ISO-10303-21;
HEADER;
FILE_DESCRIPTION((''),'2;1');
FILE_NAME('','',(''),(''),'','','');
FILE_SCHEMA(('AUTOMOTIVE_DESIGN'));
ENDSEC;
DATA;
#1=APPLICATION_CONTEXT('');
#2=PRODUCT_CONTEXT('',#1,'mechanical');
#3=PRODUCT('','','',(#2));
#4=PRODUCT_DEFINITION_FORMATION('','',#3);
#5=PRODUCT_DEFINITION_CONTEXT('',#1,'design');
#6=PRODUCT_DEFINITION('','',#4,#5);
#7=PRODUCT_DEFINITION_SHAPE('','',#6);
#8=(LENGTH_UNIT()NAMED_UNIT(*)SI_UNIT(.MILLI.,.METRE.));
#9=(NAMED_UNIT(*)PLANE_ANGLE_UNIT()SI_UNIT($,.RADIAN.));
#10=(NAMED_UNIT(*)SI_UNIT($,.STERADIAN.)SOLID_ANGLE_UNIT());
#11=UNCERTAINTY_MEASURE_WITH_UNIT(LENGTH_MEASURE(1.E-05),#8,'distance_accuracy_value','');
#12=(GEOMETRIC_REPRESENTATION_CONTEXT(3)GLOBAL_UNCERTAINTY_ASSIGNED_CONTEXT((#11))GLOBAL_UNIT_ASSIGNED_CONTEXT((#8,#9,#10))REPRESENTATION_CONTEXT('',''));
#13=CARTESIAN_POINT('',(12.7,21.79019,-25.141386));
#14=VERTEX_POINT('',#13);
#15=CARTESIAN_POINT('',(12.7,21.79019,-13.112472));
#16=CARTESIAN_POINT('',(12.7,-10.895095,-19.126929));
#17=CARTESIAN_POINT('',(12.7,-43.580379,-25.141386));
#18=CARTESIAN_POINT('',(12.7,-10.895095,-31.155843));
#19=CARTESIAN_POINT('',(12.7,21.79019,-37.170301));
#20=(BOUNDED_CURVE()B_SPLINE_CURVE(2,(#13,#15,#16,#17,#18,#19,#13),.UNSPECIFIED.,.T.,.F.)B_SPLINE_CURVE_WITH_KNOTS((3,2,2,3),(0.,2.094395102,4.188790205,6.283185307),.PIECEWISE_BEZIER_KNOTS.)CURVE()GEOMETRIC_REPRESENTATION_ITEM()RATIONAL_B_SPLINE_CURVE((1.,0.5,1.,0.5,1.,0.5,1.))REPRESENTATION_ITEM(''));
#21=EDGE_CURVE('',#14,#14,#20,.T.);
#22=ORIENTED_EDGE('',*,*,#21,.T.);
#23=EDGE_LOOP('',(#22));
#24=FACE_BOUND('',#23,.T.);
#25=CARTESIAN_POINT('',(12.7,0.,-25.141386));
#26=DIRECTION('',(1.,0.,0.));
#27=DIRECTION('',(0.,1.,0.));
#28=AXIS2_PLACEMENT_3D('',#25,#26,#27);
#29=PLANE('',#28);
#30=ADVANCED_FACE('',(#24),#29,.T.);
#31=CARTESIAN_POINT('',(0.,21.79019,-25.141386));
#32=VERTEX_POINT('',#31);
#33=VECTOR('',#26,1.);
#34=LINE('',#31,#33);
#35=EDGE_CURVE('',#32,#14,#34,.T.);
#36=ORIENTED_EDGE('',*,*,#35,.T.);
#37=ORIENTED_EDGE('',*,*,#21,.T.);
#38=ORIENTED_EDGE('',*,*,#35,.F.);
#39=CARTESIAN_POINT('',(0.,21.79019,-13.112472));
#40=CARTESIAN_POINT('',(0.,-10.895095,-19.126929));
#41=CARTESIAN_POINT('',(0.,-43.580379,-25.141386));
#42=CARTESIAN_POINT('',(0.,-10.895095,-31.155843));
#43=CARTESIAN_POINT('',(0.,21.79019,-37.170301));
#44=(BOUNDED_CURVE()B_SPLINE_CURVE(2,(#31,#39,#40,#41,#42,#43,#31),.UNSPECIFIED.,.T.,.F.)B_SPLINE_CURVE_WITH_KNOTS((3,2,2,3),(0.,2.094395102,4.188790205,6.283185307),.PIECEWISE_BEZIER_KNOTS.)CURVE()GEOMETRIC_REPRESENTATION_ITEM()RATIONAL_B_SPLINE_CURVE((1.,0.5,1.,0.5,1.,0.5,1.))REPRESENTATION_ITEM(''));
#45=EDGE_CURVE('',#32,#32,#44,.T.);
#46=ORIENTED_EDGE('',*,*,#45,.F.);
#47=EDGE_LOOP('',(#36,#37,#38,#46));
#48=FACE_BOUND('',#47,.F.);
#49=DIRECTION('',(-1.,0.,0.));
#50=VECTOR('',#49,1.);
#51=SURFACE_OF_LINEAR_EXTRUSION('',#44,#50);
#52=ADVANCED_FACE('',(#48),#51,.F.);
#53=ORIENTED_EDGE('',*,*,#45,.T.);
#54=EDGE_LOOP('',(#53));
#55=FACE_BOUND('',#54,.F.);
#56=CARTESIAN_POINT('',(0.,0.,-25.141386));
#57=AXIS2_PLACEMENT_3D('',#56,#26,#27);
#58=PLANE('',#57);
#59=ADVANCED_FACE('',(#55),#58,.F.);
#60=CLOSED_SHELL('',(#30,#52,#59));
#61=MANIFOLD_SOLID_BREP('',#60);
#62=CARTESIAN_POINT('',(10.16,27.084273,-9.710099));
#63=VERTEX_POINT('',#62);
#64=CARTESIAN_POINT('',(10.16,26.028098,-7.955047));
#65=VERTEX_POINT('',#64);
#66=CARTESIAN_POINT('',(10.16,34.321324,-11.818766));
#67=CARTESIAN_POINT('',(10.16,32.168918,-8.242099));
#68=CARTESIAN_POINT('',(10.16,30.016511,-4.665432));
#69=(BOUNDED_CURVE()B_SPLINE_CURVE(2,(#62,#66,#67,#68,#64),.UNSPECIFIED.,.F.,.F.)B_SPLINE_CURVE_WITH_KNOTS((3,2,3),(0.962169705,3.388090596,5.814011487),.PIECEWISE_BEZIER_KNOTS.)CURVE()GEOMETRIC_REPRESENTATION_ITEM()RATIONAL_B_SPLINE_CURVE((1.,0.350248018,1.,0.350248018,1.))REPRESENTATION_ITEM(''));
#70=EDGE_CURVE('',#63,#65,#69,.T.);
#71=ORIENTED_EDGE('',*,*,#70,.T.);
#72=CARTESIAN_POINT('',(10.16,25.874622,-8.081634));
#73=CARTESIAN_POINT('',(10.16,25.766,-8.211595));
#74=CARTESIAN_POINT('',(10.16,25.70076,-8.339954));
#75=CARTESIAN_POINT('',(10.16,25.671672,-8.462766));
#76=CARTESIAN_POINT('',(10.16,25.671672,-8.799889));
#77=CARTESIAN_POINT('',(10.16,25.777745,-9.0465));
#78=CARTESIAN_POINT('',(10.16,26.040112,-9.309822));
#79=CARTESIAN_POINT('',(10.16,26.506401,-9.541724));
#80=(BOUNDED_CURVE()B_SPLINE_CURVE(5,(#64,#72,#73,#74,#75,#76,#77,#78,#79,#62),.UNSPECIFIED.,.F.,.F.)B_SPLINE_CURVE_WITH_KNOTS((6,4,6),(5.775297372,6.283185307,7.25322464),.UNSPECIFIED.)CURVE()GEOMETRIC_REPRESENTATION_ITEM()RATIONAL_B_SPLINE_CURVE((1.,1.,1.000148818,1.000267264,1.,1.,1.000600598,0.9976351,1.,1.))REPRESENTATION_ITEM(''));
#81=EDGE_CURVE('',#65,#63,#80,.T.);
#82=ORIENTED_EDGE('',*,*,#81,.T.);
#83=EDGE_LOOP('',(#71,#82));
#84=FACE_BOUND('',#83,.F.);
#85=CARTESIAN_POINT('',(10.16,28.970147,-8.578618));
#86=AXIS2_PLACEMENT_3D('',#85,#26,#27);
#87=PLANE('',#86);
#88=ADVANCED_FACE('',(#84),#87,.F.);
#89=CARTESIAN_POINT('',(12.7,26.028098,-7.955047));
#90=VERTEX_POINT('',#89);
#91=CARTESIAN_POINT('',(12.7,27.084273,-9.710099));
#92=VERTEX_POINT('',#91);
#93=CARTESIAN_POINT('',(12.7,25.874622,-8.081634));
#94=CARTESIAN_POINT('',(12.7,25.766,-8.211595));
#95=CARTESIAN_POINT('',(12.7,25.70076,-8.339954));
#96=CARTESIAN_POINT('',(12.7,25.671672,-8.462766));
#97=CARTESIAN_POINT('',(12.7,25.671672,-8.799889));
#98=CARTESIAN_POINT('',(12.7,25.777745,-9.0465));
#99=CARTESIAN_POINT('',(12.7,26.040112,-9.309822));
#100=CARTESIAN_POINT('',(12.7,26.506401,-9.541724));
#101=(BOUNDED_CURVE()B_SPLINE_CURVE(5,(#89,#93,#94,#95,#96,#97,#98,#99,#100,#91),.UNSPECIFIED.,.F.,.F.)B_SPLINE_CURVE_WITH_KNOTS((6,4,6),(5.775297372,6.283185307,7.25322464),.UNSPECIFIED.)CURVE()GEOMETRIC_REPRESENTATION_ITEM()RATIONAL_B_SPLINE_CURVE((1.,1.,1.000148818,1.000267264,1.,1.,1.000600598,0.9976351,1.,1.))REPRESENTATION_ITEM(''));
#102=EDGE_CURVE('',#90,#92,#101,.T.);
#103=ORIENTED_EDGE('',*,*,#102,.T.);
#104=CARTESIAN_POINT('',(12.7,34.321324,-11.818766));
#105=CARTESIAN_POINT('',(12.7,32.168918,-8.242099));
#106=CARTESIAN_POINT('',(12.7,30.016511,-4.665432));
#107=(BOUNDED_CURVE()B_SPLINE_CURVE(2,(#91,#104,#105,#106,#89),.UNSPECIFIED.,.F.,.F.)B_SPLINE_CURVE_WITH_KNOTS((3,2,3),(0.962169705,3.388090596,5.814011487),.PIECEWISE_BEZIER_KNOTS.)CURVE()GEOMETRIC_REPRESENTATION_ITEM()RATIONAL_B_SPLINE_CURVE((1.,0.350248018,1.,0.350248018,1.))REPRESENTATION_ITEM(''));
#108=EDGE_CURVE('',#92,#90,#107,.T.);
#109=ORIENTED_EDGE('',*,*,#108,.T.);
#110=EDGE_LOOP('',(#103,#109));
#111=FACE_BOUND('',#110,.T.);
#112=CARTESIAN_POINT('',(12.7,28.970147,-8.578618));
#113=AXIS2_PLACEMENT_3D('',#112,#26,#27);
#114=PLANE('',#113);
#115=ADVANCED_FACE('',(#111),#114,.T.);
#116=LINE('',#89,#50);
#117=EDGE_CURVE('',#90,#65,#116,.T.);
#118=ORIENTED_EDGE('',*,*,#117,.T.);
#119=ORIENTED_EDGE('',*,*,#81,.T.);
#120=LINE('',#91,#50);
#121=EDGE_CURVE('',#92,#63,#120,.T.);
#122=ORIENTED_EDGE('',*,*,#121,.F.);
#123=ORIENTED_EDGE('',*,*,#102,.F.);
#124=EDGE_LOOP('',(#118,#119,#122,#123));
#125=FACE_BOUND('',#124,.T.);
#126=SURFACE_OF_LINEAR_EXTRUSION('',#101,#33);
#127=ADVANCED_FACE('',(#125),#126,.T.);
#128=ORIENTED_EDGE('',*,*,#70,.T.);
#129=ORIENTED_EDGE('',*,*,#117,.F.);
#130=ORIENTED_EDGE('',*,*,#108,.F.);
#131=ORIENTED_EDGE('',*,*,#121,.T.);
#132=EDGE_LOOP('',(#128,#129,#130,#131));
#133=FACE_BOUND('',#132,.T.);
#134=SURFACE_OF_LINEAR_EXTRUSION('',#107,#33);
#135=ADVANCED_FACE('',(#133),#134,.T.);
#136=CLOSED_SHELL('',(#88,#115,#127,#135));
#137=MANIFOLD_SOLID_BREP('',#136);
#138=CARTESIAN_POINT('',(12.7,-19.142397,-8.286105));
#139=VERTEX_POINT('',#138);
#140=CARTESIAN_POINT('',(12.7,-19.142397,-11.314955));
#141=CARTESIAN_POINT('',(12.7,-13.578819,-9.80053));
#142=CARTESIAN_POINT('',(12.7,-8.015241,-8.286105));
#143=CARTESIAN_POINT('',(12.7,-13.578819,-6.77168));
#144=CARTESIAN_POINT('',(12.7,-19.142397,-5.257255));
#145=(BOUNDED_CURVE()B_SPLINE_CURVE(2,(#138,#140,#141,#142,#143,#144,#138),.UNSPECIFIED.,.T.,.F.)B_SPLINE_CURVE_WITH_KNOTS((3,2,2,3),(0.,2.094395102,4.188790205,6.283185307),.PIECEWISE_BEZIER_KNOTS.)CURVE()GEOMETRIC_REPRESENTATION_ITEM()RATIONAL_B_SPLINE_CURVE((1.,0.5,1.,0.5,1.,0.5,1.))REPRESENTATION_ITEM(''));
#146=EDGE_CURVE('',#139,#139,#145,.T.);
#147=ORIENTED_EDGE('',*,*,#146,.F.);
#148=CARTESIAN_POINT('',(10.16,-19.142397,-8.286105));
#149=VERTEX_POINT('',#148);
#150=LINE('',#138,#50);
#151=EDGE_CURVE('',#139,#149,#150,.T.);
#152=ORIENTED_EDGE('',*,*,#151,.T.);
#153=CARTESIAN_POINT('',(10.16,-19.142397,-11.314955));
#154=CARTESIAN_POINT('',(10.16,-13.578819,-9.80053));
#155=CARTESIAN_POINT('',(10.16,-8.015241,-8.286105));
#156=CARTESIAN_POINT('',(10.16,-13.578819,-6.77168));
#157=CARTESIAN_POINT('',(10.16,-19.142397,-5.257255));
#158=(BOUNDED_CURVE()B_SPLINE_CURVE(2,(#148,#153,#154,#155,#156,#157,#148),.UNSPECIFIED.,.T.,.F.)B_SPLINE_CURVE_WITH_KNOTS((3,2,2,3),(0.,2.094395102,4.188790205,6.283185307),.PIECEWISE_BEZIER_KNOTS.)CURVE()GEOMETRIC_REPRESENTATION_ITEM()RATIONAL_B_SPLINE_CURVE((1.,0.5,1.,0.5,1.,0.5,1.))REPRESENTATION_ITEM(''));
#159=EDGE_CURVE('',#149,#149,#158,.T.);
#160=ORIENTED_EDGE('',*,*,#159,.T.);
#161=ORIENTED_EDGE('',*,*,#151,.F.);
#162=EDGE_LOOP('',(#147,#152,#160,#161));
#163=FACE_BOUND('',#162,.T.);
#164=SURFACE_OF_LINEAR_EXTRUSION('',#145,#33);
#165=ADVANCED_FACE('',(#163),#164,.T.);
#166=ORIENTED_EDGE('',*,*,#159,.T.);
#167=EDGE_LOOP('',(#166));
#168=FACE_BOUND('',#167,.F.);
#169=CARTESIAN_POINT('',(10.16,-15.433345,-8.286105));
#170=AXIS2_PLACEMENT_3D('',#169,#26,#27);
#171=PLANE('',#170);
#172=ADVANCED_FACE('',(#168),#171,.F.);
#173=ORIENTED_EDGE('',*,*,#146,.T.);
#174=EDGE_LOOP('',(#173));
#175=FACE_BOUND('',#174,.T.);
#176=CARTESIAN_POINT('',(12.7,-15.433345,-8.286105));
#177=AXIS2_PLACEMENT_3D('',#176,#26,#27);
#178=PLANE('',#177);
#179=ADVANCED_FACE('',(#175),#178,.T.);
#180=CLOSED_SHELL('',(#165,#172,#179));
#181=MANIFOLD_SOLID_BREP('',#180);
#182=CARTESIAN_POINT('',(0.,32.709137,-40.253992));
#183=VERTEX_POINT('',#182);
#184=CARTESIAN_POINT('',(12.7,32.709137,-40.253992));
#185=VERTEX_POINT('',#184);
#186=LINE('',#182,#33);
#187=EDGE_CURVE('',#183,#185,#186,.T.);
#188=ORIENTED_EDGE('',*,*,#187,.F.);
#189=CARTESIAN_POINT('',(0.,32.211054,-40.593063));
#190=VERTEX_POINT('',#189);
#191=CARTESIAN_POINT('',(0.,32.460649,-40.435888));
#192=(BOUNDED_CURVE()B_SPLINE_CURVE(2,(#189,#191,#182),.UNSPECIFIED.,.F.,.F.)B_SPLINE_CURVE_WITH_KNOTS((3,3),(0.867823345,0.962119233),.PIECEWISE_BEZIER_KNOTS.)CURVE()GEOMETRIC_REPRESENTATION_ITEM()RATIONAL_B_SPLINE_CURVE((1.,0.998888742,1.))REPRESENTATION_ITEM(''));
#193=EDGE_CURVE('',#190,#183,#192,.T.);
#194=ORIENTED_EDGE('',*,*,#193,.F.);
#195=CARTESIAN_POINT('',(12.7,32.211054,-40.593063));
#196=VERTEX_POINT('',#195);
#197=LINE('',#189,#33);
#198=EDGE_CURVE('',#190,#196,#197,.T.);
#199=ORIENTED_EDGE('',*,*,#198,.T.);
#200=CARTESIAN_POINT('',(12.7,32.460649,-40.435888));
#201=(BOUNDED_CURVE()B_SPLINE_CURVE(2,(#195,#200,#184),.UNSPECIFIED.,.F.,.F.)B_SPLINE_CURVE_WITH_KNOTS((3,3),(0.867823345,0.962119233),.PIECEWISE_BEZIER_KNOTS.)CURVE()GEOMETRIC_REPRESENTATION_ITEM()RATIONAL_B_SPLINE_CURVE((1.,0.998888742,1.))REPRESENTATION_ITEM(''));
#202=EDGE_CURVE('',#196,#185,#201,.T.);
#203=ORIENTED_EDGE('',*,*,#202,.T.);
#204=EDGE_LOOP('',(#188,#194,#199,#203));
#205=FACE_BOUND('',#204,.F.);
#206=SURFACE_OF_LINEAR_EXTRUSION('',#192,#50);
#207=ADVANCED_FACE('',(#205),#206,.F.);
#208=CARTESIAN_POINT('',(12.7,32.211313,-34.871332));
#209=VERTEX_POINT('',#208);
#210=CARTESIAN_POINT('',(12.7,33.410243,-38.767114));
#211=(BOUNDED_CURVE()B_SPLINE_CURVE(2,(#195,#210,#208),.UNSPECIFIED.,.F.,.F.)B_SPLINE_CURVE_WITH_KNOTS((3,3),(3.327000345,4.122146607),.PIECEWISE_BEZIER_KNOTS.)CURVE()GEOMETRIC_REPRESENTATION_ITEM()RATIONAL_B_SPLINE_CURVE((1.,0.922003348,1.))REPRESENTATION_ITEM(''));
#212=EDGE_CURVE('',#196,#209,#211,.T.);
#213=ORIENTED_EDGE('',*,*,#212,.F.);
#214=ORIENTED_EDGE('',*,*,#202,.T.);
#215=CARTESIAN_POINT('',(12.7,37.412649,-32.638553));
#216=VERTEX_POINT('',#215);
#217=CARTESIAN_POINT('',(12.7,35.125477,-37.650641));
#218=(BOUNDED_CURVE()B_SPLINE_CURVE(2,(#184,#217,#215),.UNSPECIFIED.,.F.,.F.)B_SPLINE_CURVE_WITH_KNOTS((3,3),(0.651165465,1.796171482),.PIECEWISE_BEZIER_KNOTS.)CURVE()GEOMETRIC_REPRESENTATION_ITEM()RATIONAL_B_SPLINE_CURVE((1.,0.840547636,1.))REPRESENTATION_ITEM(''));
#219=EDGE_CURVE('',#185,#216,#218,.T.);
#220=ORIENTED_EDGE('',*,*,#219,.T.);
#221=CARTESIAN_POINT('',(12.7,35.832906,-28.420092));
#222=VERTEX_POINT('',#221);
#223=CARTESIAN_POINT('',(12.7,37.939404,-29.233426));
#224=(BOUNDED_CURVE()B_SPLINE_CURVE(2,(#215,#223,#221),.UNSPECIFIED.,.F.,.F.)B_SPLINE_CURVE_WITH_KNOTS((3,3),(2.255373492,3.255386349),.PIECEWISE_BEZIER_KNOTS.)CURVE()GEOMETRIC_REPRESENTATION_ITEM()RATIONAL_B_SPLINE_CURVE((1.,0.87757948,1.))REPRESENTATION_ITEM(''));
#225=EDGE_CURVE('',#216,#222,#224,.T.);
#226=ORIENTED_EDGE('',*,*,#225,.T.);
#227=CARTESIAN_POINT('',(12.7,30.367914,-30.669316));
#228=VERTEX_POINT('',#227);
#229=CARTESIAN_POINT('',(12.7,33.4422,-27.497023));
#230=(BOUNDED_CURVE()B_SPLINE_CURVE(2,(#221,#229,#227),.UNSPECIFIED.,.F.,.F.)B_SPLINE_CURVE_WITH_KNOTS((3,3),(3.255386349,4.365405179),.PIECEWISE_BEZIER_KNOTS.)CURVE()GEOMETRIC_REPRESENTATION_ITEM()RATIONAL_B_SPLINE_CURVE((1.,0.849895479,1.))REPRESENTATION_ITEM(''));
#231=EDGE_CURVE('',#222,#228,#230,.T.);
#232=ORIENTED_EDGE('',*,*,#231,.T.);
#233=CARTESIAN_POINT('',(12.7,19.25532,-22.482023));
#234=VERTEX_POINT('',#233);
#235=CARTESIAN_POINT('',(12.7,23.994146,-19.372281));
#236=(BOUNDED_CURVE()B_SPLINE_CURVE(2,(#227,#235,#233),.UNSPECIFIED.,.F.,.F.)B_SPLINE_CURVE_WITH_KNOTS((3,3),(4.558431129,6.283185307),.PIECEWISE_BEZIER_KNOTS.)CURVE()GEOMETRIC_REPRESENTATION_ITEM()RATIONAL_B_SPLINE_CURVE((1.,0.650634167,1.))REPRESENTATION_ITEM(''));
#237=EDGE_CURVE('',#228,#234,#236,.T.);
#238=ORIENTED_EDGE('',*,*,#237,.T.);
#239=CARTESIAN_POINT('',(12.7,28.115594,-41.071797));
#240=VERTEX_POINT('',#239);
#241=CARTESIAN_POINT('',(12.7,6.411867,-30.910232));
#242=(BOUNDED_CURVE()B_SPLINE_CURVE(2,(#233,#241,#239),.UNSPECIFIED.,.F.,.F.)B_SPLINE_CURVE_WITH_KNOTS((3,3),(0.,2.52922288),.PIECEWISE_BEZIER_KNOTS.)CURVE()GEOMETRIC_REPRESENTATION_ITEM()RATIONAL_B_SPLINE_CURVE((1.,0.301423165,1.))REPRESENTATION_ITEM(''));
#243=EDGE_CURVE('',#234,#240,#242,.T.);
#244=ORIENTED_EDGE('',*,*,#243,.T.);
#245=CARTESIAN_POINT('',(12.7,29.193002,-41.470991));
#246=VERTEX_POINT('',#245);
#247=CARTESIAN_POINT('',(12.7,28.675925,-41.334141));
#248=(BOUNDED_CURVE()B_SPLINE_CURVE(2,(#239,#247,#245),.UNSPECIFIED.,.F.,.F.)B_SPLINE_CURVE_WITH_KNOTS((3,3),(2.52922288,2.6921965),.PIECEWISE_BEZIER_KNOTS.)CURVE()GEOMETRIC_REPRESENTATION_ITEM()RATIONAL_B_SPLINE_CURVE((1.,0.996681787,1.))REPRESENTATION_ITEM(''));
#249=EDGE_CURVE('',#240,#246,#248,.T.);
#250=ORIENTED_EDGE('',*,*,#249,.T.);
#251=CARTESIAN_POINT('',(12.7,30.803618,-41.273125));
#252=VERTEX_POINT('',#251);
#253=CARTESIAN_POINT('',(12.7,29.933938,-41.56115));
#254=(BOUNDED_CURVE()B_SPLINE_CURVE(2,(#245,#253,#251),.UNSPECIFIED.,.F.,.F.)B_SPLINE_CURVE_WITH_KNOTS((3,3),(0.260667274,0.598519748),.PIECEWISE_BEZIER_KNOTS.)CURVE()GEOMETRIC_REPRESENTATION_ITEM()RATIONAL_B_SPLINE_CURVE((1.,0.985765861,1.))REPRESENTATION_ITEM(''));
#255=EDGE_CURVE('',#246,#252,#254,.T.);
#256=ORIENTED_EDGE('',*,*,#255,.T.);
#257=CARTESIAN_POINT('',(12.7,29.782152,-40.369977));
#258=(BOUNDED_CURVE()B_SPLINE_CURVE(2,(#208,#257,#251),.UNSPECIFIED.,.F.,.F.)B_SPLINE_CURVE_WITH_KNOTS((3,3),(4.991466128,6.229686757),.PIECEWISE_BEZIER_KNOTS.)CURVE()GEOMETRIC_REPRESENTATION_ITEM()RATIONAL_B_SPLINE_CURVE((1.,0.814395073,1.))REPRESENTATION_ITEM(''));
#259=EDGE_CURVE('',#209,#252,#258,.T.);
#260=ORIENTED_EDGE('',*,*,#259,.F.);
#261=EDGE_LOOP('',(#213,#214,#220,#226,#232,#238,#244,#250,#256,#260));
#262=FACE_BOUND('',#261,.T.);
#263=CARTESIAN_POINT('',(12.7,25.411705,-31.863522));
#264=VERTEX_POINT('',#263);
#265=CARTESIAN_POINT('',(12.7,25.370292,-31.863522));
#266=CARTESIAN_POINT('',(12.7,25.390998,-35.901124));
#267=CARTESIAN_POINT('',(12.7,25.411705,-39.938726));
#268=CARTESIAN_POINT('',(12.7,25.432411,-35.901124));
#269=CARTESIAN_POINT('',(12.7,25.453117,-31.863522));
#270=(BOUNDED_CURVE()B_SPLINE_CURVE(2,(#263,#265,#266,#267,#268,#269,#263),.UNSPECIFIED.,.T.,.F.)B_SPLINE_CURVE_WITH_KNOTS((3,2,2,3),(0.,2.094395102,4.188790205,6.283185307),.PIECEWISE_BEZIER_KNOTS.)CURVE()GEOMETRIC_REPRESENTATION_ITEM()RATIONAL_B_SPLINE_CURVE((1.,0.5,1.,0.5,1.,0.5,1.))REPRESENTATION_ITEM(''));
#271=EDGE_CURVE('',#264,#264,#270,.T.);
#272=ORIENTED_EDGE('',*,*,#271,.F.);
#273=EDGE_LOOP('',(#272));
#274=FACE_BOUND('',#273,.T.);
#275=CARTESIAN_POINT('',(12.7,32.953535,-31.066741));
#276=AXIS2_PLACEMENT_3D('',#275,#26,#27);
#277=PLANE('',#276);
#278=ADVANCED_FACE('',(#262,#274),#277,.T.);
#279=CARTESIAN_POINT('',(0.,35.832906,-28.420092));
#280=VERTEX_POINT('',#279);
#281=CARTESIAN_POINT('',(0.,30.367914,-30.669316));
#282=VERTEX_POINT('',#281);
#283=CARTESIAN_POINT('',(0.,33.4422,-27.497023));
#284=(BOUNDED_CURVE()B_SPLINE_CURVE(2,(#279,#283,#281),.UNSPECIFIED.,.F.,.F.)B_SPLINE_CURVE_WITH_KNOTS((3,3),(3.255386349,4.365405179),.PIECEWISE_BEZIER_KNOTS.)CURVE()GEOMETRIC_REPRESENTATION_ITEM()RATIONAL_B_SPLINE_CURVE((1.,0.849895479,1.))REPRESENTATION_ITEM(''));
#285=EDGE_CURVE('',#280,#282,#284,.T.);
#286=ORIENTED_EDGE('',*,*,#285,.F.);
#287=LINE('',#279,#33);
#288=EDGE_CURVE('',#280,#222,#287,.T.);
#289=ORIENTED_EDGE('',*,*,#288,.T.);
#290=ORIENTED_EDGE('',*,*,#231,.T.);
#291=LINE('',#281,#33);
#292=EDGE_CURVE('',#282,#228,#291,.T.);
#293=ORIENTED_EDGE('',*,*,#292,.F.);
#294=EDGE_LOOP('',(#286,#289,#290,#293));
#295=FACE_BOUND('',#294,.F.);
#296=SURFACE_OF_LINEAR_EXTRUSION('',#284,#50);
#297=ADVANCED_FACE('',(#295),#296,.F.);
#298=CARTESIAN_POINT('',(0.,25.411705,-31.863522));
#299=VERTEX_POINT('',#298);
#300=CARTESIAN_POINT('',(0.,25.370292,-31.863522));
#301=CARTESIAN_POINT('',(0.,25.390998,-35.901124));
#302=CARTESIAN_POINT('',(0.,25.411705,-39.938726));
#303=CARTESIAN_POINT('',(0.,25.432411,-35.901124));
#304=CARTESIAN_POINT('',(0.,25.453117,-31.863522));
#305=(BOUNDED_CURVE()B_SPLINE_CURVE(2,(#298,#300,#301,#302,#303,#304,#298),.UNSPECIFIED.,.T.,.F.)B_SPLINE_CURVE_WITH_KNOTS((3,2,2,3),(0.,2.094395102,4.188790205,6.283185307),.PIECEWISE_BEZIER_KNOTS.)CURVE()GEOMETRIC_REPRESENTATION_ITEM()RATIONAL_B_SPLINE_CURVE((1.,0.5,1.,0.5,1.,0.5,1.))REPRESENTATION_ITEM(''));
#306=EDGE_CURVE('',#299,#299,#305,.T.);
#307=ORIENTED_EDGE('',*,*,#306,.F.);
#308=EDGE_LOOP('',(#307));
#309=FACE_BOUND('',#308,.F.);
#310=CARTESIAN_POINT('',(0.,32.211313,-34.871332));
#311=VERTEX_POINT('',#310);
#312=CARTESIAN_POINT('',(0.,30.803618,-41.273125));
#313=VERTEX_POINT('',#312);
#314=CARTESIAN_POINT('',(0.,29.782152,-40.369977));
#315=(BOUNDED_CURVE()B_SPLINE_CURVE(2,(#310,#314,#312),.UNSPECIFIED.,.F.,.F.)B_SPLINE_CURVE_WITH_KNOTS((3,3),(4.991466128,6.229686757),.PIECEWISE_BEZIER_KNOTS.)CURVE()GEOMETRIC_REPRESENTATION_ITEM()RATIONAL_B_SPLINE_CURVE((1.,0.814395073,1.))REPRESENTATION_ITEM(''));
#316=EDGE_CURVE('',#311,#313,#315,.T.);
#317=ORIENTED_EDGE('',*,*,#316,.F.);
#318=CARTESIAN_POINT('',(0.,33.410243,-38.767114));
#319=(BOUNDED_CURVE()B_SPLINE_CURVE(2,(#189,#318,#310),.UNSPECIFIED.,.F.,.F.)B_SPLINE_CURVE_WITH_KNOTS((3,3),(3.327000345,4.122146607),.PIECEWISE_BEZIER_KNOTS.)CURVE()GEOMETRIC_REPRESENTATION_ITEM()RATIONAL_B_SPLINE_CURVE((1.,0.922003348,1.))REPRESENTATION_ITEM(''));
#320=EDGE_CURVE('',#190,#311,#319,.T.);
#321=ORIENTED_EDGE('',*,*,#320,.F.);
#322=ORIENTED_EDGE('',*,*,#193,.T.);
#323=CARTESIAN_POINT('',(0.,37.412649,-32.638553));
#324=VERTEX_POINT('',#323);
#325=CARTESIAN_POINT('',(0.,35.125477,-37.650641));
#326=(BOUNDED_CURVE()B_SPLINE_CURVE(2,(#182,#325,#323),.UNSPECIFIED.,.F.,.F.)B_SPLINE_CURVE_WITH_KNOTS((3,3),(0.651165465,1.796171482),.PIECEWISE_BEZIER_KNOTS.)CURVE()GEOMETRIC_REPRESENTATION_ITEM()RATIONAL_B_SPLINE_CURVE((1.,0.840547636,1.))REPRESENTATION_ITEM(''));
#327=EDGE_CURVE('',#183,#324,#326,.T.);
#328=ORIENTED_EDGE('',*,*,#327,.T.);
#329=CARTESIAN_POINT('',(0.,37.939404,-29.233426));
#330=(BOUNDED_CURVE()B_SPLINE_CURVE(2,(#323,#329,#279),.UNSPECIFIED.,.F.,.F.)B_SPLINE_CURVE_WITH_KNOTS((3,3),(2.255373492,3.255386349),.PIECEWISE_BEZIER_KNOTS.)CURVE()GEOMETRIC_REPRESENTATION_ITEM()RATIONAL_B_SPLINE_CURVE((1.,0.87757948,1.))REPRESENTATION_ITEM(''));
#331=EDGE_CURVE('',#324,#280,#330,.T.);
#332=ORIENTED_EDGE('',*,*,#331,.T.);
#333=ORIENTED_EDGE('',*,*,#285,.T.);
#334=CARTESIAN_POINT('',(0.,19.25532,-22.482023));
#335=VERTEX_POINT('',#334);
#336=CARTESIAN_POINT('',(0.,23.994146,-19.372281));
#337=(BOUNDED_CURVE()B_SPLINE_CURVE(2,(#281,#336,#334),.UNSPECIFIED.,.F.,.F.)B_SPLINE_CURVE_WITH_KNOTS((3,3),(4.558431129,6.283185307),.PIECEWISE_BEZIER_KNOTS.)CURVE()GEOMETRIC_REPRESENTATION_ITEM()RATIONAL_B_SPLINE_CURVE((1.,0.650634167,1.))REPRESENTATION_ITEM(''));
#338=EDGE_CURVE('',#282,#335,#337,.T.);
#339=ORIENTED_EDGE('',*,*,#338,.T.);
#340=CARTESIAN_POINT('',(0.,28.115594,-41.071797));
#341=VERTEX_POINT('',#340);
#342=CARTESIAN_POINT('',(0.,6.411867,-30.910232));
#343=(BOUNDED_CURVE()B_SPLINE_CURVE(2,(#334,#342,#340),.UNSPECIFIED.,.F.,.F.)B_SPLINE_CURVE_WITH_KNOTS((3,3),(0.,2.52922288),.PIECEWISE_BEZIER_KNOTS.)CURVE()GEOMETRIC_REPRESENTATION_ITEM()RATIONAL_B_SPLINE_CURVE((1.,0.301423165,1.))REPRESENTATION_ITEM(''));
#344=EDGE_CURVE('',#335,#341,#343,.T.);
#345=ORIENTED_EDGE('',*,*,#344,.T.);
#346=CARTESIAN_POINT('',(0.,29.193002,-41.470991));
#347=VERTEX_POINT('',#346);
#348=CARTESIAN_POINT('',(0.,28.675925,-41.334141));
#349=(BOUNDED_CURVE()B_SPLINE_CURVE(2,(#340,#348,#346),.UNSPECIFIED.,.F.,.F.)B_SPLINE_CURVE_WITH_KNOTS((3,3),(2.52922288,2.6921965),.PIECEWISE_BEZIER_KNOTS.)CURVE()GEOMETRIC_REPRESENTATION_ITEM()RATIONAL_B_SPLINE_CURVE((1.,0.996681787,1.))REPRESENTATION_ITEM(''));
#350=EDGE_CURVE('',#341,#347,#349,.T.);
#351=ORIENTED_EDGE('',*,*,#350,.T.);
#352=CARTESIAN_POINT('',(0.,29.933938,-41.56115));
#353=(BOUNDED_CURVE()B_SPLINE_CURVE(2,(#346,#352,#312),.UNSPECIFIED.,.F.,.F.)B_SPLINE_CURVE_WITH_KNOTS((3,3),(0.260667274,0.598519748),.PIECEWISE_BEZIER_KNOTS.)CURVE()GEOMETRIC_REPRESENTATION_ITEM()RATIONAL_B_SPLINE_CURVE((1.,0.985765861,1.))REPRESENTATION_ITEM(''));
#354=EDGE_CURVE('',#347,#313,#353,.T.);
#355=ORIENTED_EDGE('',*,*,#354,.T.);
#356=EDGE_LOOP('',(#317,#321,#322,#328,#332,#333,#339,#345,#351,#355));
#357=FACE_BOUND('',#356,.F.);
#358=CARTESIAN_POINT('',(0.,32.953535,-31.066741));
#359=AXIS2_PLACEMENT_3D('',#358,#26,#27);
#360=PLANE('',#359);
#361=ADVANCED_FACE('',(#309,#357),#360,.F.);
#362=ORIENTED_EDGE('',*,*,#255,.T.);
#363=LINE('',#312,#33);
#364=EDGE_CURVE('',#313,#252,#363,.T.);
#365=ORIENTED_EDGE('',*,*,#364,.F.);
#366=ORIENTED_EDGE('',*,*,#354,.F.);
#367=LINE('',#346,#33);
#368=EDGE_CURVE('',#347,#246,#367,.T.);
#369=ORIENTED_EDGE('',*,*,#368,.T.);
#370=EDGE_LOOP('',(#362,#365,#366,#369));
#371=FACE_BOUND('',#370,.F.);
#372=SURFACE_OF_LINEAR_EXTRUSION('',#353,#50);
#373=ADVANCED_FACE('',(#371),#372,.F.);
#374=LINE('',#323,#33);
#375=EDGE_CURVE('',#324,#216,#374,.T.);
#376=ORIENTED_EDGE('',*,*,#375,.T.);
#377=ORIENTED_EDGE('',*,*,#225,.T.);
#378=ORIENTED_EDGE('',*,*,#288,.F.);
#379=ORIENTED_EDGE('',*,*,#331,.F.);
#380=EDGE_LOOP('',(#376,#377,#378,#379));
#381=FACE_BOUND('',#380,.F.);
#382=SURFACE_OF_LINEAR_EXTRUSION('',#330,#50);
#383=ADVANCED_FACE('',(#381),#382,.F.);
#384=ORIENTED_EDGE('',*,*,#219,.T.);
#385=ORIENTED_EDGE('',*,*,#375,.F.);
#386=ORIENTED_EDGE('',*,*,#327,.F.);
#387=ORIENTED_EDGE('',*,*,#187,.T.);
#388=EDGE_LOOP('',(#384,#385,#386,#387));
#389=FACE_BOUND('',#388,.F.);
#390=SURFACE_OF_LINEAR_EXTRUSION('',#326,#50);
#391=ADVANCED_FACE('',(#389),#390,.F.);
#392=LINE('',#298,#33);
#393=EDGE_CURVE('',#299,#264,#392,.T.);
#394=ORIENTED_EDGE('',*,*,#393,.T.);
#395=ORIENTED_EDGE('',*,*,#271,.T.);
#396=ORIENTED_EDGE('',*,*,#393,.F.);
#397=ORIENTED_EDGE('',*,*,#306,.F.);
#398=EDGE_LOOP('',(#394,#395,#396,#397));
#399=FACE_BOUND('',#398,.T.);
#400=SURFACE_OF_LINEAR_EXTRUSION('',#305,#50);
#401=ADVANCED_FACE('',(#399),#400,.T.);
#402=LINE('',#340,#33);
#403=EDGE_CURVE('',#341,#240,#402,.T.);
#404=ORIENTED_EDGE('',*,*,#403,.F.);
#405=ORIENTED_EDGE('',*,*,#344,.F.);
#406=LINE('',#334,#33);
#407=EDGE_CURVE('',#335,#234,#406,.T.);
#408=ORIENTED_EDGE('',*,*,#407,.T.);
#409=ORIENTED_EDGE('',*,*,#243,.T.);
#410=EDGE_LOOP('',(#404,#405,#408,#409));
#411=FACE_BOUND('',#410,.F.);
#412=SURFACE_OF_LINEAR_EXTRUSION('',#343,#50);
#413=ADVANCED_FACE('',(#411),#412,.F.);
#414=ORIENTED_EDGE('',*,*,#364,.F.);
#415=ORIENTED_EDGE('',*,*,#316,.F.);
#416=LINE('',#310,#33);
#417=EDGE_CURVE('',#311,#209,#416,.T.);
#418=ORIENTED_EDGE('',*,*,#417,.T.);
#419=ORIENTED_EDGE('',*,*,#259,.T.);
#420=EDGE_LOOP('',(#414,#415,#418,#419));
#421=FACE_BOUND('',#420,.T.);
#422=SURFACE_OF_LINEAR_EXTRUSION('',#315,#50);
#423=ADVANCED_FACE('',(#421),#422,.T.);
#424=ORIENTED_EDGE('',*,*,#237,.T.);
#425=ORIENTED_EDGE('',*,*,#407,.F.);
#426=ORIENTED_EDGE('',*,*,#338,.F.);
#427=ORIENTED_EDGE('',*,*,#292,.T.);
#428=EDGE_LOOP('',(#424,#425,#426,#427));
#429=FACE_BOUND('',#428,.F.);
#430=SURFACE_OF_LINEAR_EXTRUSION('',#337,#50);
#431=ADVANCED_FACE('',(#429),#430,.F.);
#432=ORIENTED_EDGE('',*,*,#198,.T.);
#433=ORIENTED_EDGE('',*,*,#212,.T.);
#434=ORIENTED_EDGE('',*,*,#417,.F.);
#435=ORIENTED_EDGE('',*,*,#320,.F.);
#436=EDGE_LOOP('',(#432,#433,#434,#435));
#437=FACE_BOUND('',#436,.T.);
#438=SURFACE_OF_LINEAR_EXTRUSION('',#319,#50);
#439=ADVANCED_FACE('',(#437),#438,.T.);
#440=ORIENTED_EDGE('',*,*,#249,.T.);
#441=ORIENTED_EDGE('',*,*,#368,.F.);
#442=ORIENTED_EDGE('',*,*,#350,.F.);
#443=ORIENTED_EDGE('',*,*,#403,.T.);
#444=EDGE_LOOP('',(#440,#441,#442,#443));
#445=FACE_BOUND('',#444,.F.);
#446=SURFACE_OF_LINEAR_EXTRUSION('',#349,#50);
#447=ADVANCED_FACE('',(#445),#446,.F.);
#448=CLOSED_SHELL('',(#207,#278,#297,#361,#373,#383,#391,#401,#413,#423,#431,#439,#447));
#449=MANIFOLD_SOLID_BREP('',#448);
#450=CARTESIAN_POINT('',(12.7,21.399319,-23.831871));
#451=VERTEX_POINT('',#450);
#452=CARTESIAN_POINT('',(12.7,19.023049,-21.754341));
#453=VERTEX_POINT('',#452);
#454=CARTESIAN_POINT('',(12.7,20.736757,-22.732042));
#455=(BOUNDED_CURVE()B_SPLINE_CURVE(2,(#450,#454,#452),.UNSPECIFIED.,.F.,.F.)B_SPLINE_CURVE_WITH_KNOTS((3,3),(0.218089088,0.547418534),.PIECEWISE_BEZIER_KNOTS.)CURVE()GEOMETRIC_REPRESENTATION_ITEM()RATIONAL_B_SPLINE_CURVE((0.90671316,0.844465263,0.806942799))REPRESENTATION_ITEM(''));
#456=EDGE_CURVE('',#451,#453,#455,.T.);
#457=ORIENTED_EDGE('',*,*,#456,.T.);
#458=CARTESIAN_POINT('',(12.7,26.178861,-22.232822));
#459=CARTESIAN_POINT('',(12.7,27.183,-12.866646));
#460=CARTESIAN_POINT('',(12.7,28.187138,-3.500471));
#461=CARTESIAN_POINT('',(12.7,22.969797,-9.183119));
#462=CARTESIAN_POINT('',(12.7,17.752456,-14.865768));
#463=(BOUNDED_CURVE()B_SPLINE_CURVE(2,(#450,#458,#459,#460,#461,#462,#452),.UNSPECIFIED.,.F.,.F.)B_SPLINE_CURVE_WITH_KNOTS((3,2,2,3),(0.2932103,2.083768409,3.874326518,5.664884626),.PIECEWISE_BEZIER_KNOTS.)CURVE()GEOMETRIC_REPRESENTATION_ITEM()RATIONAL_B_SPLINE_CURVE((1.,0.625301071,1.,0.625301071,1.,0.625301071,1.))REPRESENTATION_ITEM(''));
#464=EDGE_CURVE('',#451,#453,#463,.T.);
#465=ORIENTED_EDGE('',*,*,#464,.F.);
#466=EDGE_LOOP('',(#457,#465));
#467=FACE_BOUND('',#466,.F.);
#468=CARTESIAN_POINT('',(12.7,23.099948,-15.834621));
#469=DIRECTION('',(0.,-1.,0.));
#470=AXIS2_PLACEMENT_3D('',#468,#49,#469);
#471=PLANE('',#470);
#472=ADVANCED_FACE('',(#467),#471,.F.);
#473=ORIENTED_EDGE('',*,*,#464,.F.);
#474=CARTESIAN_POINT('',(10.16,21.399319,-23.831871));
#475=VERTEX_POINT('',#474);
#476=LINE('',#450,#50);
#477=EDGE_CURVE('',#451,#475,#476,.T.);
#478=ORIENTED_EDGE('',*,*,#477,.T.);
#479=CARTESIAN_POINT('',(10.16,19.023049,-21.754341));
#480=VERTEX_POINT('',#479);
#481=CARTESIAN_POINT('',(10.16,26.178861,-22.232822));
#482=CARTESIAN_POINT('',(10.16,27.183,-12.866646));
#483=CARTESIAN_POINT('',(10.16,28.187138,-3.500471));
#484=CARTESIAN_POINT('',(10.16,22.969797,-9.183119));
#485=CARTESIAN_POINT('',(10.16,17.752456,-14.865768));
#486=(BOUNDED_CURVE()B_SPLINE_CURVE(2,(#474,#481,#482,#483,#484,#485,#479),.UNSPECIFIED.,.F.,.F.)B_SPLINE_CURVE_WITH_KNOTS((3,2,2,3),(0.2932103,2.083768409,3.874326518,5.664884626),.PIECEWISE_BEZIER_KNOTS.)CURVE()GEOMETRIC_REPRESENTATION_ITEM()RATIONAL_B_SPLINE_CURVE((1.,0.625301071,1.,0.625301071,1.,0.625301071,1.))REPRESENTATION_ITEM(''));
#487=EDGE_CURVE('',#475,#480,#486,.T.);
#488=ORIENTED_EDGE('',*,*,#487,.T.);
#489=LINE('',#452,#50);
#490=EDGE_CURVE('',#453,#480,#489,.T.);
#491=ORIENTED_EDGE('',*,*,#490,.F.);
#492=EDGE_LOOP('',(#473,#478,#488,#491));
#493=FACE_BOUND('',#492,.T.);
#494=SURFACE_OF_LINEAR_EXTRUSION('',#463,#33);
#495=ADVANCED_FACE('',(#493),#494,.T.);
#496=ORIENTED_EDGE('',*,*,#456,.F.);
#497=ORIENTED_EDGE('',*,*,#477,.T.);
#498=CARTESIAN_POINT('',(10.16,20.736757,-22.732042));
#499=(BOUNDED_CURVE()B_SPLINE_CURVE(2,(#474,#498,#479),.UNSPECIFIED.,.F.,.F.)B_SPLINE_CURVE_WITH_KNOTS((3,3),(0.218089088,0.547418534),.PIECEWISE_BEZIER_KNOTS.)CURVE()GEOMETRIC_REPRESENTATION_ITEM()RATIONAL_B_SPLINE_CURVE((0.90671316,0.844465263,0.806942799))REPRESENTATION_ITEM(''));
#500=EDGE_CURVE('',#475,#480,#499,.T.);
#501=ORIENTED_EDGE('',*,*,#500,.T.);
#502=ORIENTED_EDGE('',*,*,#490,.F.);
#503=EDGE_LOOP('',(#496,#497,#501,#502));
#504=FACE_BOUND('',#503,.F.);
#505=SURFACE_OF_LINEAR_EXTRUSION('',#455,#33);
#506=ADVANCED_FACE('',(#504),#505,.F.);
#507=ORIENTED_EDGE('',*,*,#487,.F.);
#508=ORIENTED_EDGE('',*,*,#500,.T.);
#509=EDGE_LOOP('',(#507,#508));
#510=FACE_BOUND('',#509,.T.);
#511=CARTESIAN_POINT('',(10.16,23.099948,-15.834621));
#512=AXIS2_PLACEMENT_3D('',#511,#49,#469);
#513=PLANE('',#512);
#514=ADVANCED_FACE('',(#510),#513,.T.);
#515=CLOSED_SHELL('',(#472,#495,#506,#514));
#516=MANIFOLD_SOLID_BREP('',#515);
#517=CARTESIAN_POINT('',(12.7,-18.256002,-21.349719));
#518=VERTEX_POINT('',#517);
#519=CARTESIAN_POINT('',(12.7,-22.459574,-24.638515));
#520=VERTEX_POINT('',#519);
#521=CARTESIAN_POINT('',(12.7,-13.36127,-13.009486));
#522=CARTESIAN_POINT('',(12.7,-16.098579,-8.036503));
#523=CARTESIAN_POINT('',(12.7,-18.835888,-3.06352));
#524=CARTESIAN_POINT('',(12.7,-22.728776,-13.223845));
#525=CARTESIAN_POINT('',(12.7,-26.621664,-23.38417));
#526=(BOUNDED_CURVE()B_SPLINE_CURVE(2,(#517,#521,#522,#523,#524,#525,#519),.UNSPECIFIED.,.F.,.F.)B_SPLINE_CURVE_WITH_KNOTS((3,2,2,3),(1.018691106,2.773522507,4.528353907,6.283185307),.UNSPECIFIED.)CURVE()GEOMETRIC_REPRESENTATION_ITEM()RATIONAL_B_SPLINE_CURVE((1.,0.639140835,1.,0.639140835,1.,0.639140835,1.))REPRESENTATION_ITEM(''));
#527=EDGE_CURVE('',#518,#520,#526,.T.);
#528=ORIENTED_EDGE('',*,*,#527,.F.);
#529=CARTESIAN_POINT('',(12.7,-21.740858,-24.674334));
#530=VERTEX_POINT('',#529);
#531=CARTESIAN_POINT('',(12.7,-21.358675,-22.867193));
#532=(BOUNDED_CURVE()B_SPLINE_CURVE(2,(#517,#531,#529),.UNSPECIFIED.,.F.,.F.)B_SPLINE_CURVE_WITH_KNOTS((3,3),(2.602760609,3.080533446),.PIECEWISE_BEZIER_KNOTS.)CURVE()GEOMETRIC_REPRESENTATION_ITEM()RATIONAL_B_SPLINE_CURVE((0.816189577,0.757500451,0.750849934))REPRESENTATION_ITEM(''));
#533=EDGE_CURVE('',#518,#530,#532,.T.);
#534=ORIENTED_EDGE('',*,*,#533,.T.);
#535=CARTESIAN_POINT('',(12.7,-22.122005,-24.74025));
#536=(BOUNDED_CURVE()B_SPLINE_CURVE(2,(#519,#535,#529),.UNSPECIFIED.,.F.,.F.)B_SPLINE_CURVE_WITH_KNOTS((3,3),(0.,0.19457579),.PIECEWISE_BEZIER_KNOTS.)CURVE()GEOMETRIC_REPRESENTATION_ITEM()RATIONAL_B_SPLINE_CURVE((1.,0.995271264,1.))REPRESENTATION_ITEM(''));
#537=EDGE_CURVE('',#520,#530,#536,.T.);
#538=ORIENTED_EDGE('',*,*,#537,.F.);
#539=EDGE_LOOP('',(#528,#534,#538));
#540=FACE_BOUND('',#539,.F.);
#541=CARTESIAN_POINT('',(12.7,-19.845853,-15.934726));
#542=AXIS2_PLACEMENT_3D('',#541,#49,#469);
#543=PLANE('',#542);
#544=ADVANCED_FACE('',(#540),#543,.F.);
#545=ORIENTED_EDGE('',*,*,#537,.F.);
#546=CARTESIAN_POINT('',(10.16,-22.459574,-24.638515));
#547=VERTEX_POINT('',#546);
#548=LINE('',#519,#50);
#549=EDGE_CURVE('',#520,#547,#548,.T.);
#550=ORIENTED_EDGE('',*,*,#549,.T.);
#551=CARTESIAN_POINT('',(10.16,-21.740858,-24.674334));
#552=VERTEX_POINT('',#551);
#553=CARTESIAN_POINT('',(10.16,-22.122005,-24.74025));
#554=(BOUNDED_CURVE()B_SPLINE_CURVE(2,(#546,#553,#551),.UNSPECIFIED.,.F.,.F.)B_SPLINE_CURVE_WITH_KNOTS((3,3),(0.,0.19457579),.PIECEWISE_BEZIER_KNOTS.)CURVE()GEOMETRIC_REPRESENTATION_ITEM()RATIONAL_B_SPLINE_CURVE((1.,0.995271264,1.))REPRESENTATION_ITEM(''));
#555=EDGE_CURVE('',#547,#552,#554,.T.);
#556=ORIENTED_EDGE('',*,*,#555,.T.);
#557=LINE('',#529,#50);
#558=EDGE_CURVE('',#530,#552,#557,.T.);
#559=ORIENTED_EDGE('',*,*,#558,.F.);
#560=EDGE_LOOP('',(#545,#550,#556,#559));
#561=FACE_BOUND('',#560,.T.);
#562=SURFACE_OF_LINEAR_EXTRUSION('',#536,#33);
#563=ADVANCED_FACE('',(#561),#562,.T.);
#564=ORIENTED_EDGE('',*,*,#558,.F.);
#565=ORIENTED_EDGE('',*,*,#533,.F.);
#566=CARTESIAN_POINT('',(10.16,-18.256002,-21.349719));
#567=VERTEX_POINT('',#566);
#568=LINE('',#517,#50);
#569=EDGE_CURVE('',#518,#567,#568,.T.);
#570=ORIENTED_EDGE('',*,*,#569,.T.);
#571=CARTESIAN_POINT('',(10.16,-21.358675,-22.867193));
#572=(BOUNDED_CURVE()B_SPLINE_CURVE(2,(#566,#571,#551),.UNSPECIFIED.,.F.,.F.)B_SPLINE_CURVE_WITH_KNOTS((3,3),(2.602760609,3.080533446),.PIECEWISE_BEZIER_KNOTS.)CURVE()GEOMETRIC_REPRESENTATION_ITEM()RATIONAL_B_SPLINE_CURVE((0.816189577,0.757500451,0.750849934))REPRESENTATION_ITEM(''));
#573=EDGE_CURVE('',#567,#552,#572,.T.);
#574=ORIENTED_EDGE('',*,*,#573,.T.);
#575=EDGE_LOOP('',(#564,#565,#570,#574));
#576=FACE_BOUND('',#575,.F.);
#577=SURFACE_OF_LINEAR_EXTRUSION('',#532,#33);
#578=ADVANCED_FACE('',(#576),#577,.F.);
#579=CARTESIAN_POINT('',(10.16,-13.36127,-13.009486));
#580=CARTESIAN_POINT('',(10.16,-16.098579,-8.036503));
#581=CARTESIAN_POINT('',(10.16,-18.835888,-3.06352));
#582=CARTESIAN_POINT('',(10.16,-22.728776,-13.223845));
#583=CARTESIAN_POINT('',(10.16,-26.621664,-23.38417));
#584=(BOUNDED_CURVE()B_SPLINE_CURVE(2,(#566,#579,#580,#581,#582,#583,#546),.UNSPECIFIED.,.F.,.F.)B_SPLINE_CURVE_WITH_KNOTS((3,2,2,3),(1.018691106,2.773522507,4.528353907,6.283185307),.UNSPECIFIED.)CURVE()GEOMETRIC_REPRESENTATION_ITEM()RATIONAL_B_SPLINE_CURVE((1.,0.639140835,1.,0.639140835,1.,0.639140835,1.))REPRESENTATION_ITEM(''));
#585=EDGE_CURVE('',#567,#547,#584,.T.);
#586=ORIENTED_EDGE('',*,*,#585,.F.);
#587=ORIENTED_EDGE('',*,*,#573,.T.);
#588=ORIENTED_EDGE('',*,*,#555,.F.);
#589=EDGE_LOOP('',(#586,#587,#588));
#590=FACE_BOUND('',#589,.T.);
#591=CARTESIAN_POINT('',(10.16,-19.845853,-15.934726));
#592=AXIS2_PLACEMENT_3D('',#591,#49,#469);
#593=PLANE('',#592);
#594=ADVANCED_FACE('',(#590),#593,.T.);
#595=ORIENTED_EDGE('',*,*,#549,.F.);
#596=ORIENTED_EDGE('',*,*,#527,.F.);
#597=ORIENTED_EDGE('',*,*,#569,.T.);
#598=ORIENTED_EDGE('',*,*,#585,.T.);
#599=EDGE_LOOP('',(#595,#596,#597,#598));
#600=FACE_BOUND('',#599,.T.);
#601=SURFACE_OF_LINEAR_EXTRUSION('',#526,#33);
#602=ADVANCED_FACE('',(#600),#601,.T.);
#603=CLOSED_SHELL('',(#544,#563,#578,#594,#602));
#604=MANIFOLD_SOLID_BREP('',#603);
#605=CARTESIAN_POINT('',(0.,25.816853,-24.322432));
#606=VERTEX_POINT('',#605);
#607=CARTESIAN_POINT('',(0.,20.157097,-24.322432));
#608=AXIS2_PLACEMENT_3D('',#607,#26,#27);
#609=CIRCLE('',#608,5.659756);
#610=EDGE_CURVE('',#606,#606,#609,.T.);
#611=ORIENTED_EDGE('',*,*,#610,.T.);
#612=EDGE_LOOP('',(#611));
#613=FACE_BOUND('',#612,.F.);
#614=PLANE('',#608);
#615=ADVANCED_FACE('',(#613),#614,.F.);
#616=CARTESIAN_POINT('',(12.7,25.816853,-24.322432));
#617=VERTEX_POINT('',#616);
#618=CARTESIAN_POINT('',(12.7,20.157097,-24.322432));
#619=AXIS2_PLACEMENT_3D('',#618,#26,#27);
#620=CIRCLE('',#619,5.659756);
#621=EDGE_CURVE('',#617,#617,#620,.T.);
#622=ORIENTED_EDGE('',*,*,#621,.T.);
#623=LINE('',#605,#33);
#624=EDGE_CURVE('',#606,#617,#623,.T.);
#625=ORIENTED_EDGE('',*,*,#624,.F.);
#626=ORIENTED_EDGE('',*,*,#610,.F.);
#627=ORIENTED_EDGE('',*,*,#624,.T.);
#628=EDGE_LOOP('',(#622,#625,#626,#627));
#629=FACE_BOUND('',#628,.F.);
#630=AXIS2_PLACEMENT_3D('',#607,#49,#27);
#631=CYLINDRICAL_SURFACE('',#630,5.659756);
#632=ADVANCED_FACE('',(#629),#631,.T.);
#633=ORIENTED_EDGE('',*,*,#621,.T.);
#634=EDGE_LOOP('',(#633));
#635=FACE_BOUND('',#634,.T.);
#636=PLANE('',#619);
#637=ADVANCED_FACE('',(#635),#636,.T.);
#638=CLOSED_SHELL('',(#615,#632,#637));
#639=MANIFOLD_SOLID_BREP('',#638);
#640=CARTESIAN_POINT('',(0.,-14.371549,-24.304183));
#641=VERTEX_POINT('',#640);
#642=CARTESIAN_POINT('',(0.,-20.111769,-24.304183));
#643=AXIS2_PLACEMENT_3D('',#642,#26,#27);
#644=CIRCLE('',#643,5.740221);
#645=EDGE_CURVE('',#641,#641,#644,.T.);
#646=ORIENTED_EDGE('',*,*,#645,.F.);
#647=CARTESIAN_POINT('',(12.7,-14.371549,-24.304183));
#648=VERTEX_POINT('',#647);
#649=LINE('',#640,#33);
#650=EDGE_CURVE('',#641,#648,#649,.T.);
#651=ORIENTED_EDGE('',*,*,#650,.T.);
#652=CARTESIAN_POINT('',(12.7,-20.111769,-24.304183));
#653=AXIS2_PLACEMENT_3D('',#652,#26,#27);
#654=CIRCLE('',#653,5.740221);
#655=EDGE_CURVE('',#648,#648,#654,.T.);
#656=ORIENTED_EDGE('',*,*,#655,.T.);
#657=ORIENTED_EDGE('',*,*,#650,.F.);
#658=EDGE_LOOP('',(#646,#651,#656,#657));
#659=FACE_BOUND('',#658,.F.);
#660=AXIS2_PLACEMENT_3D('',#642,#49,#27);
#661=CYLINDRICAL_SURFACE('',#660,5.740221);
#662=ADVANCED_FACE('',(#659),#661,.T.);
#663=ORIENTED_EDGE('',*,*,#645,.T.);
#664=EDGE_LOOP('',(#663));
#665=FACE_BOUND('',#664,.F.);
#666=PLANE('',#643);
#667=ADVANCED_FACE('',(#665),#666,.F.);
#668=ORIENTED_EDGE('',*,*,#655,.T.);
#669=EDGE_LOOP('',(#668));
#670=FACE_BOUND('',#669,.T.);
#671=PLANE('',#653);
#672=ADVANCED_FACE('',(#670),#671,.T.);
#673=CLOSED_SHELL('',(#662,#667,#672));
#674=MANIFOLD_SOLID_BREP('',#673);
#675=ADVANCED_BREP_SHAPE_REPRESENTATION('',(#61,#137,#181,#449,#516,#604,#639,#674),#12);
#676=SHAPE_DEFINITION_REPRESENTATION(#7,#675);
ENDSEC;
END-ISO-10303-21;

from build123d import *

# Parameters (mm, degrees)
F0_R     = 5.6597561227
F2_DEPTH = 12.7
F0_R_2   = 5.7402207177
F4_DEPTH = 2.54
F6_DEPTH = 2.54
F8_DEPTH = 12.7


with BuildPart() as f2:
    # F0 (on Right) → F2 (new body)
    with BuildSketch(Plane.YZ):
        with Locations((20.1570969075, -24.3224315345)):
            Circle(F0_R)
    extrude(amount=F2_DEPTH)


with BuildPart() as f2b:
    # F0 (on Right) → F2, piece 2 (new body)
    with BuildSketch(Plane.YZ):
        with Locations((-20.1117694378, -24.3041832)):
            Circle(F0_R_2)
    extrude(amount=F2_DEPTH)


with BuildPart() as f2c:
    # F1 (on Right) → F2, piece 3 (new body)
    with BuildSketch(Plane.YZ):
        with BuildLine():
            add(Edge.make_bspline(
                [(21.7901896685, -25.1413863152), (21.7901896685, -13.1124720845), (-10.8950948343, -19.1269291999), (-43.5803793371, -25.1413863152), (-10.8950948343, -31.1558434306), (21.7901896685, -37.1703005459), (21.7901896685, -25.1413863152)],
                knots=[0, 0, 0, 2.0943951024, 2.0943951024, 4.1887902048, 4.1887902048, 6.2831853072, 6.2831853072, 6.2831853072], degree=2, weights=[1, 0.5, 1, 0.5, 1, 0.5, 1]))
        make_face()
    extrude(amount=F2_DEPTH)


with BuildPart() as f4:
    # F3 (on face) → F4 (new body)
    with BuildSketch(Plane.YZ.offset(12.7)):
        with BuildLine():
            add(Edge.make_bspline(
                [(21.3993190766, -23.8318714862), (20.7367572315, -22.7320415488), (19.0230486812, -21.7543413535)],
                knots=[0.2180890882, 0.2180890882, 0.2180890882, 0.5474185344, 0.5474185344, 0.5474185344], degree=2, weights=[0.9067131604, 0.8444652633, 0.8069427988]))
            add(Edge.make_bspline(
                [(21.3993190766, -23.8318714862), (26.1788614724, -22.2328216687), (27.182999757, -12.8666461933), (28.1871380417, -3.5004707179), (22.9697970964, -9.1831194787), (17.7524561511, -14.8657682395), (19.0230486812, -21.7543413535)],
                knots=[0.2932103, 0.2932103, 0.2932103, 2.0837684088, 2.0837684088, 3.8743265176, 3.8743265176, 5.6648846264, 5.6648846264, 5.6648846264], degree=2, weights=[1, 0.6253010713, 1, 0.6253010713, 1, 0.6253010713, 1]))
        make_face()
    extrude(amount=-F4_DEPTH)


with BuildPart() as f4b:
    # F3 (on face) → F4, piece 2 (new body)
    with BuildSketch(Plane.YZ.offset(12.7)):
        with BuildLine():
            add(Edge.make_bspline(
                [(-18.2560023408, -21.3497193418), (-21.3586750978, -22.8671926133), (-21.7408583226, -24.6743336722)],
                knots=[2.6027606092, 2.6027606092, 2.6027606092, 3.0805334457, 3.0805334457, 3.0805334457], degree=2, weights=[0.8161895767, 0.7575004506, 0.7508499338]))
            add(Edge.make_bspline(
                [(-18.2560023408, -21.3497193418), (-13.3612700195, -13.0094861699), (-16.0985788967, -8.0365030602), (-18.835887774, -3.0635199506), (-22.728776068, -13.223844917), (-26.621664362, -23.3841698834), (-22.4595740438, -24.6385149658)],
                knots=[1.0186911064, 1.0186911064, 1.0186911064, 2.7735225067, 2.7735225067, 4.5283539069, 4.5283539069, 6.2831853072, 6.2831853072, 6.2831853072], degree=2, weights=[1, 0.6391408347, 1, 0.6391408347, 1, 0.6391408347, 1]))
            add(Edge.make_bspline(
                [(-22.4595740438, -24.6385149658), (-22.1220046278, -24.7402495521), (-21.7408583226, -24.6743336722)],
                knots=[0, 0, 0, 0.1945757904, 0.1945757904, 0.1945757904], degree=2, weights=[1, 0.9952712643, 1]))
        make_face()
    extrude(amount=-F4_DEPTH)


with BuildPart() as f6:
    # F5 (on face) → F6 (new body)
    with BuildSketch(Plane.YZ.offset(12.7)):
        with BuildLine():
            add(Edge.make_bspline(
                [(25.671672076, -8.5786180571), (25.671672076, -10.9673320877), (30.6193837896, -9.7729750724), (35.5670955032, -8.5786180571), (30.6193837896, -7.3842610418), (25.671672076, -6.1899040265), (25.671672076, -8.5786180571)],
                knots=[0, 0, 0, 2.0943951024, 2.0943951024, 4.1887902048, 4.1887902048, 6.2831853072, 6.2831853072, 6.2831853072], degree=2, weights=[1, 0.5, 1, 0.5, 1, 0.5, 1]))
        make_face()
        with BuildLine():
            add(Edge.make_bspline(
                [(27.0842726857, -9.710098853), (26.7793939722, -8.3817091655), (26.0280981388, -7.9550474696)],
                knots=[2.5915415143, 2.5915415143, 2.5915415143, 3.0597227583, 3.0597227583, 3.0597227583], degree=2, weights=[0.8477493427, 0.8053432759, 0.8141718422]))
            add(Edge.make_bspline(
                [(27.0842726857, -9.710098853), (34.3213244013, -11.8187655625), (32.1689177142, -8.2420988601), (30.0165110271, -4.6654321578), (26.0280981388, -7.9550474696)],
                knots=[0.9621697048, 0.9621697048, 0.9621697048, 3.3880905957, 3.3880905957, 5.8140114866, 5.8140114866, 5.8140114866], degree=2, weights=[1, 0.3502480182, 1, 0.3502480182, 1]))
        make_face()
    extrude(amount=-F6_DEPTH)


with BuildPart() as f6b:
    # F5 (on face) → F6, piece 2 (new body)
    with BuildSketch(Plane.YZ.offset(12.7)):
        with BuildLine():
            add(Edge.make_bspline(
                [(-19.1423967481, -8.2861054689), (-19.1423967481, -11.3149554683), (-13.578819111, -9.8005304686), (-8.0152414739, -8.2861054689), (-13.578819111, -6.7716804692), (-19.1423967481, -5.2572554695), (-19.1423967481, -8.2861054689)],
                knots=[0, 0, 0, 2.0943951024, 2.0943951024, 4.1887902048, 4.1887902048, 6.2831853072, 6.2831853072, 6.2831853072], degree=2, weights=[1, 0.5, 1, 0.5, 1, 0.5, 1]))
        make_face()
    extrude(amount=-F6_DEPTH)


with BuildPart() as f8:
    # F7 (on Right) → F8 (new body)
    with BuildSketch(Plane.YZ):
        with BuildLine():
            add(Edge.make_bspline(
                [(35.8329058395, -28.4200919761), (33.4421998683, -27.4970231099), (30.3679143018, -30.6693161808)],
                knots=[3.2553863489, 3.2553863489, 3.2553863489, 4.3654051791, 4.3654051791, 4.3654051791], degree=2, weights=[1, 0.849895479, 1]))
            add(Edge.make_bspline(
                [(32.211313021, -34.8713320827), (31.5784388818, -32.814882049), (30.3679143018, -30.6693161808)],
                knots=[4.1221466071, 4.1221466071, 4.1221466071, 4.5584311293, 4.5584311293, 4.5584311293], degree=2, weights=[1, 0.9763011788, 1]))
            add(Edge.make_bspline(
                [(35.8329058395, -28.4200919761), (33.8243497044, -31.2200655616), (32.211313021, -34.8713320827)],
                knots=[4.1075645111, 4.1075645111, 4.1075645111, 4.9914661277, 4.9914661277, 4.9914661277], degree=2, weights=[1, 0.9039190159, 1]))
        make_face()
        with BuildLine():
            add(Edge.make_bspline(
                [(35.8329058395, -28.4200919761), (33.8243497044, -31.2200655616), (32.211313021, -34.8713320827)],
                knots=[4.1075645111, 4.1075645111, 4.1075645111, 4.9914661277, 4.9914661277, 4.9914661277], degree=2, weights=[1, 0.9039190159, 1]))
            add(Edge.make_bspline(
                [(32.2110537667, -40.5930625812), (33.4102428858, -38.7671135788), (32.211313021, -34.8713320827)],
                knots=[3.3270003451, 3.3270003451, 3.3270003451, 4.1221466071, 4.1221466071, 4.1221466071], degree=2, weights=[1, 0.922003348, 1]))
            add(Edge.make_bspline(
                [(32.2110537667, -40.5930625812), (32.4606490751, -40.4358878808), (32.7091366921, -40.2539922858)],
                knots=[0.8678233454, 0.8678233454, 0.8678233454, 0.9621192328, 0.9621192328, 0.9621192328], degree=2, weights=[1, 0.9988887416, 1]))
            add(Edge.make_bspline(
                [(32.7091366921, -40.2539922858), (35.1254767234, -37.6506412315), (37.4126494866, -32.6385534856)],
                knots=[0.6511654654, 0.6511654654, 0.6511654654, 1.7961714817, 1.7961714817, 1.7961714817], degree=2, weights=[1, 0.8405476359, 1]))
            add(Edge.make_bspline(
                [(37.4126494866, -32.6385534856), (37.9394036813, -29.233426028), (35.8329058395, -28.4200919761)],
                knots=[2.2553734925, 2.2553734925, 2.2553734925, 3.2553863489, 3.2553863489, 3.2553863489], degree=2, weights=[1, 0.87757948, 1]))
        make_face()
        with BuildLine():
            add(Edge.make_bspline(
                [(30.3679143018, -30.6693161808), (23.4332509429, -37.8250549846), (28.1155938731, -41.0717968798)],
                knots=[4.3654051791, 4.3654051791, 4.3654051791, 6.2655361999, 6.2655361999, 6.2655361999], degree=2, weights=[1, 0.581629801, 1]))
            add(Edge.make_bspline(
                [(28.1155938731, -41.0717968798), (28.6759248714, -41.3341407523), (29.193002233, -41.4709910392)],
                knots=[2.5292228798, 2.5292228798, 2.5292228798, 2.6921965, 2.6921965, 2.6921965], degree=2, weights=[1, 0.9966817866, 1]))
            add(Edge.make_bspline(
                [(29.193002233, -41.4709910392), (29.933938377, -41.5611501692), (30.8036175537, -41.2731249407)],
                knots=[0.2606672744, 0.2606672744, 0.2606672744, 0.5985197482, 0.5985197482, 0.5985197482], degree=2, weights=[1, 0.9857658605, 1]))
            add(Edge.make_bspline(
                [(32.211313021, -34.8713320827), (29.7821517311, -40.369976586), (30.8036175537, -41.2731249407)],
                knots=[4.9914661277, 4.9914661277, 4.9914661277, 6.2296867573, 6.2296867573, 6.2296867573], degree=2, weights=[1, 0.8143950729, 1]))
            add(Edge.make_bspline(
                [(32.211313021, -34.8713320827), (31.5784388818, -32.814882049), (30.3679143018, -30.6693161808)],
                knots=[4.1221466071, 4.1221466071, 4.1221466071, 4.5584311293, 4.5584311293, 4.5584311293], degree=2, weights=[1, 0.9763011788, 1]))
        make_face()
        with BuildLine():
            add(Edge.make_bspline(
                [(30.3679143018, -30.6693161808), (23.9941462851, -19.3722807183), (19.2553196102, -22.4820226431)],
                knots=[4.5584311293, 4.5584311293, 4.5584311293, 6.2831853072, 6.2831853072, 6.2831853072], degree=2, weights=[1, 0.6506341674, 1]))
            add(Edge.make_bspline(
                [(19.2553196102, -22.4820226431), (6.4118668857, -30.9102320158), (28.1155938731, -41.0717968798)],
                knots=[0, 0, 0, 2.5292228798, 2.5292228798, 2.5292228798], degree=2, weights=[1, 0.3014231649, 1]))
            add(Edge.make_bspline(
                [(30.3679143018, -30.6693161808), (23.4332509429, -37.8250549846), (28.1155938731, -41.0717968798)],
                knots=[4.3654051791, 4.3654051791, 4.3654051791, 6.2655361999, 6.2655361999, 6.2655361999], degree=2, weights=[1, 0.581629801, 1]))
        make_face()
        with BuildLine():
            add(Edge.make_bspline(
                [(25.4117045552, -31.8635217845), (25.3702923295, -31.8635217845), (25.3909984424, -35.9011236578), (25.4117045552, -39.9387255311), (25.432410668, -35.9011236578), (25.4531167808, -31.8635217845), (25.4117045552, -31.8635217845)],
                knots=[0, 0, 0, 2.0943951024, 2.0943951024, 4.1887902048, 4.1887902048, 6.2831853072, 6.2831853072, 6.2831853072], degree=2, weights=[1, 0.5, 1, 0.5, 1, 0.5, 1]))
        make_face(mode=Mode.SUBTRACT)
    extrude(amount=F8_DEPTH)


solid = Compound([f2.part, f2b.part, f2c.part, f4.part, f4b.part, f6.part, f6b.part, f8.part])
